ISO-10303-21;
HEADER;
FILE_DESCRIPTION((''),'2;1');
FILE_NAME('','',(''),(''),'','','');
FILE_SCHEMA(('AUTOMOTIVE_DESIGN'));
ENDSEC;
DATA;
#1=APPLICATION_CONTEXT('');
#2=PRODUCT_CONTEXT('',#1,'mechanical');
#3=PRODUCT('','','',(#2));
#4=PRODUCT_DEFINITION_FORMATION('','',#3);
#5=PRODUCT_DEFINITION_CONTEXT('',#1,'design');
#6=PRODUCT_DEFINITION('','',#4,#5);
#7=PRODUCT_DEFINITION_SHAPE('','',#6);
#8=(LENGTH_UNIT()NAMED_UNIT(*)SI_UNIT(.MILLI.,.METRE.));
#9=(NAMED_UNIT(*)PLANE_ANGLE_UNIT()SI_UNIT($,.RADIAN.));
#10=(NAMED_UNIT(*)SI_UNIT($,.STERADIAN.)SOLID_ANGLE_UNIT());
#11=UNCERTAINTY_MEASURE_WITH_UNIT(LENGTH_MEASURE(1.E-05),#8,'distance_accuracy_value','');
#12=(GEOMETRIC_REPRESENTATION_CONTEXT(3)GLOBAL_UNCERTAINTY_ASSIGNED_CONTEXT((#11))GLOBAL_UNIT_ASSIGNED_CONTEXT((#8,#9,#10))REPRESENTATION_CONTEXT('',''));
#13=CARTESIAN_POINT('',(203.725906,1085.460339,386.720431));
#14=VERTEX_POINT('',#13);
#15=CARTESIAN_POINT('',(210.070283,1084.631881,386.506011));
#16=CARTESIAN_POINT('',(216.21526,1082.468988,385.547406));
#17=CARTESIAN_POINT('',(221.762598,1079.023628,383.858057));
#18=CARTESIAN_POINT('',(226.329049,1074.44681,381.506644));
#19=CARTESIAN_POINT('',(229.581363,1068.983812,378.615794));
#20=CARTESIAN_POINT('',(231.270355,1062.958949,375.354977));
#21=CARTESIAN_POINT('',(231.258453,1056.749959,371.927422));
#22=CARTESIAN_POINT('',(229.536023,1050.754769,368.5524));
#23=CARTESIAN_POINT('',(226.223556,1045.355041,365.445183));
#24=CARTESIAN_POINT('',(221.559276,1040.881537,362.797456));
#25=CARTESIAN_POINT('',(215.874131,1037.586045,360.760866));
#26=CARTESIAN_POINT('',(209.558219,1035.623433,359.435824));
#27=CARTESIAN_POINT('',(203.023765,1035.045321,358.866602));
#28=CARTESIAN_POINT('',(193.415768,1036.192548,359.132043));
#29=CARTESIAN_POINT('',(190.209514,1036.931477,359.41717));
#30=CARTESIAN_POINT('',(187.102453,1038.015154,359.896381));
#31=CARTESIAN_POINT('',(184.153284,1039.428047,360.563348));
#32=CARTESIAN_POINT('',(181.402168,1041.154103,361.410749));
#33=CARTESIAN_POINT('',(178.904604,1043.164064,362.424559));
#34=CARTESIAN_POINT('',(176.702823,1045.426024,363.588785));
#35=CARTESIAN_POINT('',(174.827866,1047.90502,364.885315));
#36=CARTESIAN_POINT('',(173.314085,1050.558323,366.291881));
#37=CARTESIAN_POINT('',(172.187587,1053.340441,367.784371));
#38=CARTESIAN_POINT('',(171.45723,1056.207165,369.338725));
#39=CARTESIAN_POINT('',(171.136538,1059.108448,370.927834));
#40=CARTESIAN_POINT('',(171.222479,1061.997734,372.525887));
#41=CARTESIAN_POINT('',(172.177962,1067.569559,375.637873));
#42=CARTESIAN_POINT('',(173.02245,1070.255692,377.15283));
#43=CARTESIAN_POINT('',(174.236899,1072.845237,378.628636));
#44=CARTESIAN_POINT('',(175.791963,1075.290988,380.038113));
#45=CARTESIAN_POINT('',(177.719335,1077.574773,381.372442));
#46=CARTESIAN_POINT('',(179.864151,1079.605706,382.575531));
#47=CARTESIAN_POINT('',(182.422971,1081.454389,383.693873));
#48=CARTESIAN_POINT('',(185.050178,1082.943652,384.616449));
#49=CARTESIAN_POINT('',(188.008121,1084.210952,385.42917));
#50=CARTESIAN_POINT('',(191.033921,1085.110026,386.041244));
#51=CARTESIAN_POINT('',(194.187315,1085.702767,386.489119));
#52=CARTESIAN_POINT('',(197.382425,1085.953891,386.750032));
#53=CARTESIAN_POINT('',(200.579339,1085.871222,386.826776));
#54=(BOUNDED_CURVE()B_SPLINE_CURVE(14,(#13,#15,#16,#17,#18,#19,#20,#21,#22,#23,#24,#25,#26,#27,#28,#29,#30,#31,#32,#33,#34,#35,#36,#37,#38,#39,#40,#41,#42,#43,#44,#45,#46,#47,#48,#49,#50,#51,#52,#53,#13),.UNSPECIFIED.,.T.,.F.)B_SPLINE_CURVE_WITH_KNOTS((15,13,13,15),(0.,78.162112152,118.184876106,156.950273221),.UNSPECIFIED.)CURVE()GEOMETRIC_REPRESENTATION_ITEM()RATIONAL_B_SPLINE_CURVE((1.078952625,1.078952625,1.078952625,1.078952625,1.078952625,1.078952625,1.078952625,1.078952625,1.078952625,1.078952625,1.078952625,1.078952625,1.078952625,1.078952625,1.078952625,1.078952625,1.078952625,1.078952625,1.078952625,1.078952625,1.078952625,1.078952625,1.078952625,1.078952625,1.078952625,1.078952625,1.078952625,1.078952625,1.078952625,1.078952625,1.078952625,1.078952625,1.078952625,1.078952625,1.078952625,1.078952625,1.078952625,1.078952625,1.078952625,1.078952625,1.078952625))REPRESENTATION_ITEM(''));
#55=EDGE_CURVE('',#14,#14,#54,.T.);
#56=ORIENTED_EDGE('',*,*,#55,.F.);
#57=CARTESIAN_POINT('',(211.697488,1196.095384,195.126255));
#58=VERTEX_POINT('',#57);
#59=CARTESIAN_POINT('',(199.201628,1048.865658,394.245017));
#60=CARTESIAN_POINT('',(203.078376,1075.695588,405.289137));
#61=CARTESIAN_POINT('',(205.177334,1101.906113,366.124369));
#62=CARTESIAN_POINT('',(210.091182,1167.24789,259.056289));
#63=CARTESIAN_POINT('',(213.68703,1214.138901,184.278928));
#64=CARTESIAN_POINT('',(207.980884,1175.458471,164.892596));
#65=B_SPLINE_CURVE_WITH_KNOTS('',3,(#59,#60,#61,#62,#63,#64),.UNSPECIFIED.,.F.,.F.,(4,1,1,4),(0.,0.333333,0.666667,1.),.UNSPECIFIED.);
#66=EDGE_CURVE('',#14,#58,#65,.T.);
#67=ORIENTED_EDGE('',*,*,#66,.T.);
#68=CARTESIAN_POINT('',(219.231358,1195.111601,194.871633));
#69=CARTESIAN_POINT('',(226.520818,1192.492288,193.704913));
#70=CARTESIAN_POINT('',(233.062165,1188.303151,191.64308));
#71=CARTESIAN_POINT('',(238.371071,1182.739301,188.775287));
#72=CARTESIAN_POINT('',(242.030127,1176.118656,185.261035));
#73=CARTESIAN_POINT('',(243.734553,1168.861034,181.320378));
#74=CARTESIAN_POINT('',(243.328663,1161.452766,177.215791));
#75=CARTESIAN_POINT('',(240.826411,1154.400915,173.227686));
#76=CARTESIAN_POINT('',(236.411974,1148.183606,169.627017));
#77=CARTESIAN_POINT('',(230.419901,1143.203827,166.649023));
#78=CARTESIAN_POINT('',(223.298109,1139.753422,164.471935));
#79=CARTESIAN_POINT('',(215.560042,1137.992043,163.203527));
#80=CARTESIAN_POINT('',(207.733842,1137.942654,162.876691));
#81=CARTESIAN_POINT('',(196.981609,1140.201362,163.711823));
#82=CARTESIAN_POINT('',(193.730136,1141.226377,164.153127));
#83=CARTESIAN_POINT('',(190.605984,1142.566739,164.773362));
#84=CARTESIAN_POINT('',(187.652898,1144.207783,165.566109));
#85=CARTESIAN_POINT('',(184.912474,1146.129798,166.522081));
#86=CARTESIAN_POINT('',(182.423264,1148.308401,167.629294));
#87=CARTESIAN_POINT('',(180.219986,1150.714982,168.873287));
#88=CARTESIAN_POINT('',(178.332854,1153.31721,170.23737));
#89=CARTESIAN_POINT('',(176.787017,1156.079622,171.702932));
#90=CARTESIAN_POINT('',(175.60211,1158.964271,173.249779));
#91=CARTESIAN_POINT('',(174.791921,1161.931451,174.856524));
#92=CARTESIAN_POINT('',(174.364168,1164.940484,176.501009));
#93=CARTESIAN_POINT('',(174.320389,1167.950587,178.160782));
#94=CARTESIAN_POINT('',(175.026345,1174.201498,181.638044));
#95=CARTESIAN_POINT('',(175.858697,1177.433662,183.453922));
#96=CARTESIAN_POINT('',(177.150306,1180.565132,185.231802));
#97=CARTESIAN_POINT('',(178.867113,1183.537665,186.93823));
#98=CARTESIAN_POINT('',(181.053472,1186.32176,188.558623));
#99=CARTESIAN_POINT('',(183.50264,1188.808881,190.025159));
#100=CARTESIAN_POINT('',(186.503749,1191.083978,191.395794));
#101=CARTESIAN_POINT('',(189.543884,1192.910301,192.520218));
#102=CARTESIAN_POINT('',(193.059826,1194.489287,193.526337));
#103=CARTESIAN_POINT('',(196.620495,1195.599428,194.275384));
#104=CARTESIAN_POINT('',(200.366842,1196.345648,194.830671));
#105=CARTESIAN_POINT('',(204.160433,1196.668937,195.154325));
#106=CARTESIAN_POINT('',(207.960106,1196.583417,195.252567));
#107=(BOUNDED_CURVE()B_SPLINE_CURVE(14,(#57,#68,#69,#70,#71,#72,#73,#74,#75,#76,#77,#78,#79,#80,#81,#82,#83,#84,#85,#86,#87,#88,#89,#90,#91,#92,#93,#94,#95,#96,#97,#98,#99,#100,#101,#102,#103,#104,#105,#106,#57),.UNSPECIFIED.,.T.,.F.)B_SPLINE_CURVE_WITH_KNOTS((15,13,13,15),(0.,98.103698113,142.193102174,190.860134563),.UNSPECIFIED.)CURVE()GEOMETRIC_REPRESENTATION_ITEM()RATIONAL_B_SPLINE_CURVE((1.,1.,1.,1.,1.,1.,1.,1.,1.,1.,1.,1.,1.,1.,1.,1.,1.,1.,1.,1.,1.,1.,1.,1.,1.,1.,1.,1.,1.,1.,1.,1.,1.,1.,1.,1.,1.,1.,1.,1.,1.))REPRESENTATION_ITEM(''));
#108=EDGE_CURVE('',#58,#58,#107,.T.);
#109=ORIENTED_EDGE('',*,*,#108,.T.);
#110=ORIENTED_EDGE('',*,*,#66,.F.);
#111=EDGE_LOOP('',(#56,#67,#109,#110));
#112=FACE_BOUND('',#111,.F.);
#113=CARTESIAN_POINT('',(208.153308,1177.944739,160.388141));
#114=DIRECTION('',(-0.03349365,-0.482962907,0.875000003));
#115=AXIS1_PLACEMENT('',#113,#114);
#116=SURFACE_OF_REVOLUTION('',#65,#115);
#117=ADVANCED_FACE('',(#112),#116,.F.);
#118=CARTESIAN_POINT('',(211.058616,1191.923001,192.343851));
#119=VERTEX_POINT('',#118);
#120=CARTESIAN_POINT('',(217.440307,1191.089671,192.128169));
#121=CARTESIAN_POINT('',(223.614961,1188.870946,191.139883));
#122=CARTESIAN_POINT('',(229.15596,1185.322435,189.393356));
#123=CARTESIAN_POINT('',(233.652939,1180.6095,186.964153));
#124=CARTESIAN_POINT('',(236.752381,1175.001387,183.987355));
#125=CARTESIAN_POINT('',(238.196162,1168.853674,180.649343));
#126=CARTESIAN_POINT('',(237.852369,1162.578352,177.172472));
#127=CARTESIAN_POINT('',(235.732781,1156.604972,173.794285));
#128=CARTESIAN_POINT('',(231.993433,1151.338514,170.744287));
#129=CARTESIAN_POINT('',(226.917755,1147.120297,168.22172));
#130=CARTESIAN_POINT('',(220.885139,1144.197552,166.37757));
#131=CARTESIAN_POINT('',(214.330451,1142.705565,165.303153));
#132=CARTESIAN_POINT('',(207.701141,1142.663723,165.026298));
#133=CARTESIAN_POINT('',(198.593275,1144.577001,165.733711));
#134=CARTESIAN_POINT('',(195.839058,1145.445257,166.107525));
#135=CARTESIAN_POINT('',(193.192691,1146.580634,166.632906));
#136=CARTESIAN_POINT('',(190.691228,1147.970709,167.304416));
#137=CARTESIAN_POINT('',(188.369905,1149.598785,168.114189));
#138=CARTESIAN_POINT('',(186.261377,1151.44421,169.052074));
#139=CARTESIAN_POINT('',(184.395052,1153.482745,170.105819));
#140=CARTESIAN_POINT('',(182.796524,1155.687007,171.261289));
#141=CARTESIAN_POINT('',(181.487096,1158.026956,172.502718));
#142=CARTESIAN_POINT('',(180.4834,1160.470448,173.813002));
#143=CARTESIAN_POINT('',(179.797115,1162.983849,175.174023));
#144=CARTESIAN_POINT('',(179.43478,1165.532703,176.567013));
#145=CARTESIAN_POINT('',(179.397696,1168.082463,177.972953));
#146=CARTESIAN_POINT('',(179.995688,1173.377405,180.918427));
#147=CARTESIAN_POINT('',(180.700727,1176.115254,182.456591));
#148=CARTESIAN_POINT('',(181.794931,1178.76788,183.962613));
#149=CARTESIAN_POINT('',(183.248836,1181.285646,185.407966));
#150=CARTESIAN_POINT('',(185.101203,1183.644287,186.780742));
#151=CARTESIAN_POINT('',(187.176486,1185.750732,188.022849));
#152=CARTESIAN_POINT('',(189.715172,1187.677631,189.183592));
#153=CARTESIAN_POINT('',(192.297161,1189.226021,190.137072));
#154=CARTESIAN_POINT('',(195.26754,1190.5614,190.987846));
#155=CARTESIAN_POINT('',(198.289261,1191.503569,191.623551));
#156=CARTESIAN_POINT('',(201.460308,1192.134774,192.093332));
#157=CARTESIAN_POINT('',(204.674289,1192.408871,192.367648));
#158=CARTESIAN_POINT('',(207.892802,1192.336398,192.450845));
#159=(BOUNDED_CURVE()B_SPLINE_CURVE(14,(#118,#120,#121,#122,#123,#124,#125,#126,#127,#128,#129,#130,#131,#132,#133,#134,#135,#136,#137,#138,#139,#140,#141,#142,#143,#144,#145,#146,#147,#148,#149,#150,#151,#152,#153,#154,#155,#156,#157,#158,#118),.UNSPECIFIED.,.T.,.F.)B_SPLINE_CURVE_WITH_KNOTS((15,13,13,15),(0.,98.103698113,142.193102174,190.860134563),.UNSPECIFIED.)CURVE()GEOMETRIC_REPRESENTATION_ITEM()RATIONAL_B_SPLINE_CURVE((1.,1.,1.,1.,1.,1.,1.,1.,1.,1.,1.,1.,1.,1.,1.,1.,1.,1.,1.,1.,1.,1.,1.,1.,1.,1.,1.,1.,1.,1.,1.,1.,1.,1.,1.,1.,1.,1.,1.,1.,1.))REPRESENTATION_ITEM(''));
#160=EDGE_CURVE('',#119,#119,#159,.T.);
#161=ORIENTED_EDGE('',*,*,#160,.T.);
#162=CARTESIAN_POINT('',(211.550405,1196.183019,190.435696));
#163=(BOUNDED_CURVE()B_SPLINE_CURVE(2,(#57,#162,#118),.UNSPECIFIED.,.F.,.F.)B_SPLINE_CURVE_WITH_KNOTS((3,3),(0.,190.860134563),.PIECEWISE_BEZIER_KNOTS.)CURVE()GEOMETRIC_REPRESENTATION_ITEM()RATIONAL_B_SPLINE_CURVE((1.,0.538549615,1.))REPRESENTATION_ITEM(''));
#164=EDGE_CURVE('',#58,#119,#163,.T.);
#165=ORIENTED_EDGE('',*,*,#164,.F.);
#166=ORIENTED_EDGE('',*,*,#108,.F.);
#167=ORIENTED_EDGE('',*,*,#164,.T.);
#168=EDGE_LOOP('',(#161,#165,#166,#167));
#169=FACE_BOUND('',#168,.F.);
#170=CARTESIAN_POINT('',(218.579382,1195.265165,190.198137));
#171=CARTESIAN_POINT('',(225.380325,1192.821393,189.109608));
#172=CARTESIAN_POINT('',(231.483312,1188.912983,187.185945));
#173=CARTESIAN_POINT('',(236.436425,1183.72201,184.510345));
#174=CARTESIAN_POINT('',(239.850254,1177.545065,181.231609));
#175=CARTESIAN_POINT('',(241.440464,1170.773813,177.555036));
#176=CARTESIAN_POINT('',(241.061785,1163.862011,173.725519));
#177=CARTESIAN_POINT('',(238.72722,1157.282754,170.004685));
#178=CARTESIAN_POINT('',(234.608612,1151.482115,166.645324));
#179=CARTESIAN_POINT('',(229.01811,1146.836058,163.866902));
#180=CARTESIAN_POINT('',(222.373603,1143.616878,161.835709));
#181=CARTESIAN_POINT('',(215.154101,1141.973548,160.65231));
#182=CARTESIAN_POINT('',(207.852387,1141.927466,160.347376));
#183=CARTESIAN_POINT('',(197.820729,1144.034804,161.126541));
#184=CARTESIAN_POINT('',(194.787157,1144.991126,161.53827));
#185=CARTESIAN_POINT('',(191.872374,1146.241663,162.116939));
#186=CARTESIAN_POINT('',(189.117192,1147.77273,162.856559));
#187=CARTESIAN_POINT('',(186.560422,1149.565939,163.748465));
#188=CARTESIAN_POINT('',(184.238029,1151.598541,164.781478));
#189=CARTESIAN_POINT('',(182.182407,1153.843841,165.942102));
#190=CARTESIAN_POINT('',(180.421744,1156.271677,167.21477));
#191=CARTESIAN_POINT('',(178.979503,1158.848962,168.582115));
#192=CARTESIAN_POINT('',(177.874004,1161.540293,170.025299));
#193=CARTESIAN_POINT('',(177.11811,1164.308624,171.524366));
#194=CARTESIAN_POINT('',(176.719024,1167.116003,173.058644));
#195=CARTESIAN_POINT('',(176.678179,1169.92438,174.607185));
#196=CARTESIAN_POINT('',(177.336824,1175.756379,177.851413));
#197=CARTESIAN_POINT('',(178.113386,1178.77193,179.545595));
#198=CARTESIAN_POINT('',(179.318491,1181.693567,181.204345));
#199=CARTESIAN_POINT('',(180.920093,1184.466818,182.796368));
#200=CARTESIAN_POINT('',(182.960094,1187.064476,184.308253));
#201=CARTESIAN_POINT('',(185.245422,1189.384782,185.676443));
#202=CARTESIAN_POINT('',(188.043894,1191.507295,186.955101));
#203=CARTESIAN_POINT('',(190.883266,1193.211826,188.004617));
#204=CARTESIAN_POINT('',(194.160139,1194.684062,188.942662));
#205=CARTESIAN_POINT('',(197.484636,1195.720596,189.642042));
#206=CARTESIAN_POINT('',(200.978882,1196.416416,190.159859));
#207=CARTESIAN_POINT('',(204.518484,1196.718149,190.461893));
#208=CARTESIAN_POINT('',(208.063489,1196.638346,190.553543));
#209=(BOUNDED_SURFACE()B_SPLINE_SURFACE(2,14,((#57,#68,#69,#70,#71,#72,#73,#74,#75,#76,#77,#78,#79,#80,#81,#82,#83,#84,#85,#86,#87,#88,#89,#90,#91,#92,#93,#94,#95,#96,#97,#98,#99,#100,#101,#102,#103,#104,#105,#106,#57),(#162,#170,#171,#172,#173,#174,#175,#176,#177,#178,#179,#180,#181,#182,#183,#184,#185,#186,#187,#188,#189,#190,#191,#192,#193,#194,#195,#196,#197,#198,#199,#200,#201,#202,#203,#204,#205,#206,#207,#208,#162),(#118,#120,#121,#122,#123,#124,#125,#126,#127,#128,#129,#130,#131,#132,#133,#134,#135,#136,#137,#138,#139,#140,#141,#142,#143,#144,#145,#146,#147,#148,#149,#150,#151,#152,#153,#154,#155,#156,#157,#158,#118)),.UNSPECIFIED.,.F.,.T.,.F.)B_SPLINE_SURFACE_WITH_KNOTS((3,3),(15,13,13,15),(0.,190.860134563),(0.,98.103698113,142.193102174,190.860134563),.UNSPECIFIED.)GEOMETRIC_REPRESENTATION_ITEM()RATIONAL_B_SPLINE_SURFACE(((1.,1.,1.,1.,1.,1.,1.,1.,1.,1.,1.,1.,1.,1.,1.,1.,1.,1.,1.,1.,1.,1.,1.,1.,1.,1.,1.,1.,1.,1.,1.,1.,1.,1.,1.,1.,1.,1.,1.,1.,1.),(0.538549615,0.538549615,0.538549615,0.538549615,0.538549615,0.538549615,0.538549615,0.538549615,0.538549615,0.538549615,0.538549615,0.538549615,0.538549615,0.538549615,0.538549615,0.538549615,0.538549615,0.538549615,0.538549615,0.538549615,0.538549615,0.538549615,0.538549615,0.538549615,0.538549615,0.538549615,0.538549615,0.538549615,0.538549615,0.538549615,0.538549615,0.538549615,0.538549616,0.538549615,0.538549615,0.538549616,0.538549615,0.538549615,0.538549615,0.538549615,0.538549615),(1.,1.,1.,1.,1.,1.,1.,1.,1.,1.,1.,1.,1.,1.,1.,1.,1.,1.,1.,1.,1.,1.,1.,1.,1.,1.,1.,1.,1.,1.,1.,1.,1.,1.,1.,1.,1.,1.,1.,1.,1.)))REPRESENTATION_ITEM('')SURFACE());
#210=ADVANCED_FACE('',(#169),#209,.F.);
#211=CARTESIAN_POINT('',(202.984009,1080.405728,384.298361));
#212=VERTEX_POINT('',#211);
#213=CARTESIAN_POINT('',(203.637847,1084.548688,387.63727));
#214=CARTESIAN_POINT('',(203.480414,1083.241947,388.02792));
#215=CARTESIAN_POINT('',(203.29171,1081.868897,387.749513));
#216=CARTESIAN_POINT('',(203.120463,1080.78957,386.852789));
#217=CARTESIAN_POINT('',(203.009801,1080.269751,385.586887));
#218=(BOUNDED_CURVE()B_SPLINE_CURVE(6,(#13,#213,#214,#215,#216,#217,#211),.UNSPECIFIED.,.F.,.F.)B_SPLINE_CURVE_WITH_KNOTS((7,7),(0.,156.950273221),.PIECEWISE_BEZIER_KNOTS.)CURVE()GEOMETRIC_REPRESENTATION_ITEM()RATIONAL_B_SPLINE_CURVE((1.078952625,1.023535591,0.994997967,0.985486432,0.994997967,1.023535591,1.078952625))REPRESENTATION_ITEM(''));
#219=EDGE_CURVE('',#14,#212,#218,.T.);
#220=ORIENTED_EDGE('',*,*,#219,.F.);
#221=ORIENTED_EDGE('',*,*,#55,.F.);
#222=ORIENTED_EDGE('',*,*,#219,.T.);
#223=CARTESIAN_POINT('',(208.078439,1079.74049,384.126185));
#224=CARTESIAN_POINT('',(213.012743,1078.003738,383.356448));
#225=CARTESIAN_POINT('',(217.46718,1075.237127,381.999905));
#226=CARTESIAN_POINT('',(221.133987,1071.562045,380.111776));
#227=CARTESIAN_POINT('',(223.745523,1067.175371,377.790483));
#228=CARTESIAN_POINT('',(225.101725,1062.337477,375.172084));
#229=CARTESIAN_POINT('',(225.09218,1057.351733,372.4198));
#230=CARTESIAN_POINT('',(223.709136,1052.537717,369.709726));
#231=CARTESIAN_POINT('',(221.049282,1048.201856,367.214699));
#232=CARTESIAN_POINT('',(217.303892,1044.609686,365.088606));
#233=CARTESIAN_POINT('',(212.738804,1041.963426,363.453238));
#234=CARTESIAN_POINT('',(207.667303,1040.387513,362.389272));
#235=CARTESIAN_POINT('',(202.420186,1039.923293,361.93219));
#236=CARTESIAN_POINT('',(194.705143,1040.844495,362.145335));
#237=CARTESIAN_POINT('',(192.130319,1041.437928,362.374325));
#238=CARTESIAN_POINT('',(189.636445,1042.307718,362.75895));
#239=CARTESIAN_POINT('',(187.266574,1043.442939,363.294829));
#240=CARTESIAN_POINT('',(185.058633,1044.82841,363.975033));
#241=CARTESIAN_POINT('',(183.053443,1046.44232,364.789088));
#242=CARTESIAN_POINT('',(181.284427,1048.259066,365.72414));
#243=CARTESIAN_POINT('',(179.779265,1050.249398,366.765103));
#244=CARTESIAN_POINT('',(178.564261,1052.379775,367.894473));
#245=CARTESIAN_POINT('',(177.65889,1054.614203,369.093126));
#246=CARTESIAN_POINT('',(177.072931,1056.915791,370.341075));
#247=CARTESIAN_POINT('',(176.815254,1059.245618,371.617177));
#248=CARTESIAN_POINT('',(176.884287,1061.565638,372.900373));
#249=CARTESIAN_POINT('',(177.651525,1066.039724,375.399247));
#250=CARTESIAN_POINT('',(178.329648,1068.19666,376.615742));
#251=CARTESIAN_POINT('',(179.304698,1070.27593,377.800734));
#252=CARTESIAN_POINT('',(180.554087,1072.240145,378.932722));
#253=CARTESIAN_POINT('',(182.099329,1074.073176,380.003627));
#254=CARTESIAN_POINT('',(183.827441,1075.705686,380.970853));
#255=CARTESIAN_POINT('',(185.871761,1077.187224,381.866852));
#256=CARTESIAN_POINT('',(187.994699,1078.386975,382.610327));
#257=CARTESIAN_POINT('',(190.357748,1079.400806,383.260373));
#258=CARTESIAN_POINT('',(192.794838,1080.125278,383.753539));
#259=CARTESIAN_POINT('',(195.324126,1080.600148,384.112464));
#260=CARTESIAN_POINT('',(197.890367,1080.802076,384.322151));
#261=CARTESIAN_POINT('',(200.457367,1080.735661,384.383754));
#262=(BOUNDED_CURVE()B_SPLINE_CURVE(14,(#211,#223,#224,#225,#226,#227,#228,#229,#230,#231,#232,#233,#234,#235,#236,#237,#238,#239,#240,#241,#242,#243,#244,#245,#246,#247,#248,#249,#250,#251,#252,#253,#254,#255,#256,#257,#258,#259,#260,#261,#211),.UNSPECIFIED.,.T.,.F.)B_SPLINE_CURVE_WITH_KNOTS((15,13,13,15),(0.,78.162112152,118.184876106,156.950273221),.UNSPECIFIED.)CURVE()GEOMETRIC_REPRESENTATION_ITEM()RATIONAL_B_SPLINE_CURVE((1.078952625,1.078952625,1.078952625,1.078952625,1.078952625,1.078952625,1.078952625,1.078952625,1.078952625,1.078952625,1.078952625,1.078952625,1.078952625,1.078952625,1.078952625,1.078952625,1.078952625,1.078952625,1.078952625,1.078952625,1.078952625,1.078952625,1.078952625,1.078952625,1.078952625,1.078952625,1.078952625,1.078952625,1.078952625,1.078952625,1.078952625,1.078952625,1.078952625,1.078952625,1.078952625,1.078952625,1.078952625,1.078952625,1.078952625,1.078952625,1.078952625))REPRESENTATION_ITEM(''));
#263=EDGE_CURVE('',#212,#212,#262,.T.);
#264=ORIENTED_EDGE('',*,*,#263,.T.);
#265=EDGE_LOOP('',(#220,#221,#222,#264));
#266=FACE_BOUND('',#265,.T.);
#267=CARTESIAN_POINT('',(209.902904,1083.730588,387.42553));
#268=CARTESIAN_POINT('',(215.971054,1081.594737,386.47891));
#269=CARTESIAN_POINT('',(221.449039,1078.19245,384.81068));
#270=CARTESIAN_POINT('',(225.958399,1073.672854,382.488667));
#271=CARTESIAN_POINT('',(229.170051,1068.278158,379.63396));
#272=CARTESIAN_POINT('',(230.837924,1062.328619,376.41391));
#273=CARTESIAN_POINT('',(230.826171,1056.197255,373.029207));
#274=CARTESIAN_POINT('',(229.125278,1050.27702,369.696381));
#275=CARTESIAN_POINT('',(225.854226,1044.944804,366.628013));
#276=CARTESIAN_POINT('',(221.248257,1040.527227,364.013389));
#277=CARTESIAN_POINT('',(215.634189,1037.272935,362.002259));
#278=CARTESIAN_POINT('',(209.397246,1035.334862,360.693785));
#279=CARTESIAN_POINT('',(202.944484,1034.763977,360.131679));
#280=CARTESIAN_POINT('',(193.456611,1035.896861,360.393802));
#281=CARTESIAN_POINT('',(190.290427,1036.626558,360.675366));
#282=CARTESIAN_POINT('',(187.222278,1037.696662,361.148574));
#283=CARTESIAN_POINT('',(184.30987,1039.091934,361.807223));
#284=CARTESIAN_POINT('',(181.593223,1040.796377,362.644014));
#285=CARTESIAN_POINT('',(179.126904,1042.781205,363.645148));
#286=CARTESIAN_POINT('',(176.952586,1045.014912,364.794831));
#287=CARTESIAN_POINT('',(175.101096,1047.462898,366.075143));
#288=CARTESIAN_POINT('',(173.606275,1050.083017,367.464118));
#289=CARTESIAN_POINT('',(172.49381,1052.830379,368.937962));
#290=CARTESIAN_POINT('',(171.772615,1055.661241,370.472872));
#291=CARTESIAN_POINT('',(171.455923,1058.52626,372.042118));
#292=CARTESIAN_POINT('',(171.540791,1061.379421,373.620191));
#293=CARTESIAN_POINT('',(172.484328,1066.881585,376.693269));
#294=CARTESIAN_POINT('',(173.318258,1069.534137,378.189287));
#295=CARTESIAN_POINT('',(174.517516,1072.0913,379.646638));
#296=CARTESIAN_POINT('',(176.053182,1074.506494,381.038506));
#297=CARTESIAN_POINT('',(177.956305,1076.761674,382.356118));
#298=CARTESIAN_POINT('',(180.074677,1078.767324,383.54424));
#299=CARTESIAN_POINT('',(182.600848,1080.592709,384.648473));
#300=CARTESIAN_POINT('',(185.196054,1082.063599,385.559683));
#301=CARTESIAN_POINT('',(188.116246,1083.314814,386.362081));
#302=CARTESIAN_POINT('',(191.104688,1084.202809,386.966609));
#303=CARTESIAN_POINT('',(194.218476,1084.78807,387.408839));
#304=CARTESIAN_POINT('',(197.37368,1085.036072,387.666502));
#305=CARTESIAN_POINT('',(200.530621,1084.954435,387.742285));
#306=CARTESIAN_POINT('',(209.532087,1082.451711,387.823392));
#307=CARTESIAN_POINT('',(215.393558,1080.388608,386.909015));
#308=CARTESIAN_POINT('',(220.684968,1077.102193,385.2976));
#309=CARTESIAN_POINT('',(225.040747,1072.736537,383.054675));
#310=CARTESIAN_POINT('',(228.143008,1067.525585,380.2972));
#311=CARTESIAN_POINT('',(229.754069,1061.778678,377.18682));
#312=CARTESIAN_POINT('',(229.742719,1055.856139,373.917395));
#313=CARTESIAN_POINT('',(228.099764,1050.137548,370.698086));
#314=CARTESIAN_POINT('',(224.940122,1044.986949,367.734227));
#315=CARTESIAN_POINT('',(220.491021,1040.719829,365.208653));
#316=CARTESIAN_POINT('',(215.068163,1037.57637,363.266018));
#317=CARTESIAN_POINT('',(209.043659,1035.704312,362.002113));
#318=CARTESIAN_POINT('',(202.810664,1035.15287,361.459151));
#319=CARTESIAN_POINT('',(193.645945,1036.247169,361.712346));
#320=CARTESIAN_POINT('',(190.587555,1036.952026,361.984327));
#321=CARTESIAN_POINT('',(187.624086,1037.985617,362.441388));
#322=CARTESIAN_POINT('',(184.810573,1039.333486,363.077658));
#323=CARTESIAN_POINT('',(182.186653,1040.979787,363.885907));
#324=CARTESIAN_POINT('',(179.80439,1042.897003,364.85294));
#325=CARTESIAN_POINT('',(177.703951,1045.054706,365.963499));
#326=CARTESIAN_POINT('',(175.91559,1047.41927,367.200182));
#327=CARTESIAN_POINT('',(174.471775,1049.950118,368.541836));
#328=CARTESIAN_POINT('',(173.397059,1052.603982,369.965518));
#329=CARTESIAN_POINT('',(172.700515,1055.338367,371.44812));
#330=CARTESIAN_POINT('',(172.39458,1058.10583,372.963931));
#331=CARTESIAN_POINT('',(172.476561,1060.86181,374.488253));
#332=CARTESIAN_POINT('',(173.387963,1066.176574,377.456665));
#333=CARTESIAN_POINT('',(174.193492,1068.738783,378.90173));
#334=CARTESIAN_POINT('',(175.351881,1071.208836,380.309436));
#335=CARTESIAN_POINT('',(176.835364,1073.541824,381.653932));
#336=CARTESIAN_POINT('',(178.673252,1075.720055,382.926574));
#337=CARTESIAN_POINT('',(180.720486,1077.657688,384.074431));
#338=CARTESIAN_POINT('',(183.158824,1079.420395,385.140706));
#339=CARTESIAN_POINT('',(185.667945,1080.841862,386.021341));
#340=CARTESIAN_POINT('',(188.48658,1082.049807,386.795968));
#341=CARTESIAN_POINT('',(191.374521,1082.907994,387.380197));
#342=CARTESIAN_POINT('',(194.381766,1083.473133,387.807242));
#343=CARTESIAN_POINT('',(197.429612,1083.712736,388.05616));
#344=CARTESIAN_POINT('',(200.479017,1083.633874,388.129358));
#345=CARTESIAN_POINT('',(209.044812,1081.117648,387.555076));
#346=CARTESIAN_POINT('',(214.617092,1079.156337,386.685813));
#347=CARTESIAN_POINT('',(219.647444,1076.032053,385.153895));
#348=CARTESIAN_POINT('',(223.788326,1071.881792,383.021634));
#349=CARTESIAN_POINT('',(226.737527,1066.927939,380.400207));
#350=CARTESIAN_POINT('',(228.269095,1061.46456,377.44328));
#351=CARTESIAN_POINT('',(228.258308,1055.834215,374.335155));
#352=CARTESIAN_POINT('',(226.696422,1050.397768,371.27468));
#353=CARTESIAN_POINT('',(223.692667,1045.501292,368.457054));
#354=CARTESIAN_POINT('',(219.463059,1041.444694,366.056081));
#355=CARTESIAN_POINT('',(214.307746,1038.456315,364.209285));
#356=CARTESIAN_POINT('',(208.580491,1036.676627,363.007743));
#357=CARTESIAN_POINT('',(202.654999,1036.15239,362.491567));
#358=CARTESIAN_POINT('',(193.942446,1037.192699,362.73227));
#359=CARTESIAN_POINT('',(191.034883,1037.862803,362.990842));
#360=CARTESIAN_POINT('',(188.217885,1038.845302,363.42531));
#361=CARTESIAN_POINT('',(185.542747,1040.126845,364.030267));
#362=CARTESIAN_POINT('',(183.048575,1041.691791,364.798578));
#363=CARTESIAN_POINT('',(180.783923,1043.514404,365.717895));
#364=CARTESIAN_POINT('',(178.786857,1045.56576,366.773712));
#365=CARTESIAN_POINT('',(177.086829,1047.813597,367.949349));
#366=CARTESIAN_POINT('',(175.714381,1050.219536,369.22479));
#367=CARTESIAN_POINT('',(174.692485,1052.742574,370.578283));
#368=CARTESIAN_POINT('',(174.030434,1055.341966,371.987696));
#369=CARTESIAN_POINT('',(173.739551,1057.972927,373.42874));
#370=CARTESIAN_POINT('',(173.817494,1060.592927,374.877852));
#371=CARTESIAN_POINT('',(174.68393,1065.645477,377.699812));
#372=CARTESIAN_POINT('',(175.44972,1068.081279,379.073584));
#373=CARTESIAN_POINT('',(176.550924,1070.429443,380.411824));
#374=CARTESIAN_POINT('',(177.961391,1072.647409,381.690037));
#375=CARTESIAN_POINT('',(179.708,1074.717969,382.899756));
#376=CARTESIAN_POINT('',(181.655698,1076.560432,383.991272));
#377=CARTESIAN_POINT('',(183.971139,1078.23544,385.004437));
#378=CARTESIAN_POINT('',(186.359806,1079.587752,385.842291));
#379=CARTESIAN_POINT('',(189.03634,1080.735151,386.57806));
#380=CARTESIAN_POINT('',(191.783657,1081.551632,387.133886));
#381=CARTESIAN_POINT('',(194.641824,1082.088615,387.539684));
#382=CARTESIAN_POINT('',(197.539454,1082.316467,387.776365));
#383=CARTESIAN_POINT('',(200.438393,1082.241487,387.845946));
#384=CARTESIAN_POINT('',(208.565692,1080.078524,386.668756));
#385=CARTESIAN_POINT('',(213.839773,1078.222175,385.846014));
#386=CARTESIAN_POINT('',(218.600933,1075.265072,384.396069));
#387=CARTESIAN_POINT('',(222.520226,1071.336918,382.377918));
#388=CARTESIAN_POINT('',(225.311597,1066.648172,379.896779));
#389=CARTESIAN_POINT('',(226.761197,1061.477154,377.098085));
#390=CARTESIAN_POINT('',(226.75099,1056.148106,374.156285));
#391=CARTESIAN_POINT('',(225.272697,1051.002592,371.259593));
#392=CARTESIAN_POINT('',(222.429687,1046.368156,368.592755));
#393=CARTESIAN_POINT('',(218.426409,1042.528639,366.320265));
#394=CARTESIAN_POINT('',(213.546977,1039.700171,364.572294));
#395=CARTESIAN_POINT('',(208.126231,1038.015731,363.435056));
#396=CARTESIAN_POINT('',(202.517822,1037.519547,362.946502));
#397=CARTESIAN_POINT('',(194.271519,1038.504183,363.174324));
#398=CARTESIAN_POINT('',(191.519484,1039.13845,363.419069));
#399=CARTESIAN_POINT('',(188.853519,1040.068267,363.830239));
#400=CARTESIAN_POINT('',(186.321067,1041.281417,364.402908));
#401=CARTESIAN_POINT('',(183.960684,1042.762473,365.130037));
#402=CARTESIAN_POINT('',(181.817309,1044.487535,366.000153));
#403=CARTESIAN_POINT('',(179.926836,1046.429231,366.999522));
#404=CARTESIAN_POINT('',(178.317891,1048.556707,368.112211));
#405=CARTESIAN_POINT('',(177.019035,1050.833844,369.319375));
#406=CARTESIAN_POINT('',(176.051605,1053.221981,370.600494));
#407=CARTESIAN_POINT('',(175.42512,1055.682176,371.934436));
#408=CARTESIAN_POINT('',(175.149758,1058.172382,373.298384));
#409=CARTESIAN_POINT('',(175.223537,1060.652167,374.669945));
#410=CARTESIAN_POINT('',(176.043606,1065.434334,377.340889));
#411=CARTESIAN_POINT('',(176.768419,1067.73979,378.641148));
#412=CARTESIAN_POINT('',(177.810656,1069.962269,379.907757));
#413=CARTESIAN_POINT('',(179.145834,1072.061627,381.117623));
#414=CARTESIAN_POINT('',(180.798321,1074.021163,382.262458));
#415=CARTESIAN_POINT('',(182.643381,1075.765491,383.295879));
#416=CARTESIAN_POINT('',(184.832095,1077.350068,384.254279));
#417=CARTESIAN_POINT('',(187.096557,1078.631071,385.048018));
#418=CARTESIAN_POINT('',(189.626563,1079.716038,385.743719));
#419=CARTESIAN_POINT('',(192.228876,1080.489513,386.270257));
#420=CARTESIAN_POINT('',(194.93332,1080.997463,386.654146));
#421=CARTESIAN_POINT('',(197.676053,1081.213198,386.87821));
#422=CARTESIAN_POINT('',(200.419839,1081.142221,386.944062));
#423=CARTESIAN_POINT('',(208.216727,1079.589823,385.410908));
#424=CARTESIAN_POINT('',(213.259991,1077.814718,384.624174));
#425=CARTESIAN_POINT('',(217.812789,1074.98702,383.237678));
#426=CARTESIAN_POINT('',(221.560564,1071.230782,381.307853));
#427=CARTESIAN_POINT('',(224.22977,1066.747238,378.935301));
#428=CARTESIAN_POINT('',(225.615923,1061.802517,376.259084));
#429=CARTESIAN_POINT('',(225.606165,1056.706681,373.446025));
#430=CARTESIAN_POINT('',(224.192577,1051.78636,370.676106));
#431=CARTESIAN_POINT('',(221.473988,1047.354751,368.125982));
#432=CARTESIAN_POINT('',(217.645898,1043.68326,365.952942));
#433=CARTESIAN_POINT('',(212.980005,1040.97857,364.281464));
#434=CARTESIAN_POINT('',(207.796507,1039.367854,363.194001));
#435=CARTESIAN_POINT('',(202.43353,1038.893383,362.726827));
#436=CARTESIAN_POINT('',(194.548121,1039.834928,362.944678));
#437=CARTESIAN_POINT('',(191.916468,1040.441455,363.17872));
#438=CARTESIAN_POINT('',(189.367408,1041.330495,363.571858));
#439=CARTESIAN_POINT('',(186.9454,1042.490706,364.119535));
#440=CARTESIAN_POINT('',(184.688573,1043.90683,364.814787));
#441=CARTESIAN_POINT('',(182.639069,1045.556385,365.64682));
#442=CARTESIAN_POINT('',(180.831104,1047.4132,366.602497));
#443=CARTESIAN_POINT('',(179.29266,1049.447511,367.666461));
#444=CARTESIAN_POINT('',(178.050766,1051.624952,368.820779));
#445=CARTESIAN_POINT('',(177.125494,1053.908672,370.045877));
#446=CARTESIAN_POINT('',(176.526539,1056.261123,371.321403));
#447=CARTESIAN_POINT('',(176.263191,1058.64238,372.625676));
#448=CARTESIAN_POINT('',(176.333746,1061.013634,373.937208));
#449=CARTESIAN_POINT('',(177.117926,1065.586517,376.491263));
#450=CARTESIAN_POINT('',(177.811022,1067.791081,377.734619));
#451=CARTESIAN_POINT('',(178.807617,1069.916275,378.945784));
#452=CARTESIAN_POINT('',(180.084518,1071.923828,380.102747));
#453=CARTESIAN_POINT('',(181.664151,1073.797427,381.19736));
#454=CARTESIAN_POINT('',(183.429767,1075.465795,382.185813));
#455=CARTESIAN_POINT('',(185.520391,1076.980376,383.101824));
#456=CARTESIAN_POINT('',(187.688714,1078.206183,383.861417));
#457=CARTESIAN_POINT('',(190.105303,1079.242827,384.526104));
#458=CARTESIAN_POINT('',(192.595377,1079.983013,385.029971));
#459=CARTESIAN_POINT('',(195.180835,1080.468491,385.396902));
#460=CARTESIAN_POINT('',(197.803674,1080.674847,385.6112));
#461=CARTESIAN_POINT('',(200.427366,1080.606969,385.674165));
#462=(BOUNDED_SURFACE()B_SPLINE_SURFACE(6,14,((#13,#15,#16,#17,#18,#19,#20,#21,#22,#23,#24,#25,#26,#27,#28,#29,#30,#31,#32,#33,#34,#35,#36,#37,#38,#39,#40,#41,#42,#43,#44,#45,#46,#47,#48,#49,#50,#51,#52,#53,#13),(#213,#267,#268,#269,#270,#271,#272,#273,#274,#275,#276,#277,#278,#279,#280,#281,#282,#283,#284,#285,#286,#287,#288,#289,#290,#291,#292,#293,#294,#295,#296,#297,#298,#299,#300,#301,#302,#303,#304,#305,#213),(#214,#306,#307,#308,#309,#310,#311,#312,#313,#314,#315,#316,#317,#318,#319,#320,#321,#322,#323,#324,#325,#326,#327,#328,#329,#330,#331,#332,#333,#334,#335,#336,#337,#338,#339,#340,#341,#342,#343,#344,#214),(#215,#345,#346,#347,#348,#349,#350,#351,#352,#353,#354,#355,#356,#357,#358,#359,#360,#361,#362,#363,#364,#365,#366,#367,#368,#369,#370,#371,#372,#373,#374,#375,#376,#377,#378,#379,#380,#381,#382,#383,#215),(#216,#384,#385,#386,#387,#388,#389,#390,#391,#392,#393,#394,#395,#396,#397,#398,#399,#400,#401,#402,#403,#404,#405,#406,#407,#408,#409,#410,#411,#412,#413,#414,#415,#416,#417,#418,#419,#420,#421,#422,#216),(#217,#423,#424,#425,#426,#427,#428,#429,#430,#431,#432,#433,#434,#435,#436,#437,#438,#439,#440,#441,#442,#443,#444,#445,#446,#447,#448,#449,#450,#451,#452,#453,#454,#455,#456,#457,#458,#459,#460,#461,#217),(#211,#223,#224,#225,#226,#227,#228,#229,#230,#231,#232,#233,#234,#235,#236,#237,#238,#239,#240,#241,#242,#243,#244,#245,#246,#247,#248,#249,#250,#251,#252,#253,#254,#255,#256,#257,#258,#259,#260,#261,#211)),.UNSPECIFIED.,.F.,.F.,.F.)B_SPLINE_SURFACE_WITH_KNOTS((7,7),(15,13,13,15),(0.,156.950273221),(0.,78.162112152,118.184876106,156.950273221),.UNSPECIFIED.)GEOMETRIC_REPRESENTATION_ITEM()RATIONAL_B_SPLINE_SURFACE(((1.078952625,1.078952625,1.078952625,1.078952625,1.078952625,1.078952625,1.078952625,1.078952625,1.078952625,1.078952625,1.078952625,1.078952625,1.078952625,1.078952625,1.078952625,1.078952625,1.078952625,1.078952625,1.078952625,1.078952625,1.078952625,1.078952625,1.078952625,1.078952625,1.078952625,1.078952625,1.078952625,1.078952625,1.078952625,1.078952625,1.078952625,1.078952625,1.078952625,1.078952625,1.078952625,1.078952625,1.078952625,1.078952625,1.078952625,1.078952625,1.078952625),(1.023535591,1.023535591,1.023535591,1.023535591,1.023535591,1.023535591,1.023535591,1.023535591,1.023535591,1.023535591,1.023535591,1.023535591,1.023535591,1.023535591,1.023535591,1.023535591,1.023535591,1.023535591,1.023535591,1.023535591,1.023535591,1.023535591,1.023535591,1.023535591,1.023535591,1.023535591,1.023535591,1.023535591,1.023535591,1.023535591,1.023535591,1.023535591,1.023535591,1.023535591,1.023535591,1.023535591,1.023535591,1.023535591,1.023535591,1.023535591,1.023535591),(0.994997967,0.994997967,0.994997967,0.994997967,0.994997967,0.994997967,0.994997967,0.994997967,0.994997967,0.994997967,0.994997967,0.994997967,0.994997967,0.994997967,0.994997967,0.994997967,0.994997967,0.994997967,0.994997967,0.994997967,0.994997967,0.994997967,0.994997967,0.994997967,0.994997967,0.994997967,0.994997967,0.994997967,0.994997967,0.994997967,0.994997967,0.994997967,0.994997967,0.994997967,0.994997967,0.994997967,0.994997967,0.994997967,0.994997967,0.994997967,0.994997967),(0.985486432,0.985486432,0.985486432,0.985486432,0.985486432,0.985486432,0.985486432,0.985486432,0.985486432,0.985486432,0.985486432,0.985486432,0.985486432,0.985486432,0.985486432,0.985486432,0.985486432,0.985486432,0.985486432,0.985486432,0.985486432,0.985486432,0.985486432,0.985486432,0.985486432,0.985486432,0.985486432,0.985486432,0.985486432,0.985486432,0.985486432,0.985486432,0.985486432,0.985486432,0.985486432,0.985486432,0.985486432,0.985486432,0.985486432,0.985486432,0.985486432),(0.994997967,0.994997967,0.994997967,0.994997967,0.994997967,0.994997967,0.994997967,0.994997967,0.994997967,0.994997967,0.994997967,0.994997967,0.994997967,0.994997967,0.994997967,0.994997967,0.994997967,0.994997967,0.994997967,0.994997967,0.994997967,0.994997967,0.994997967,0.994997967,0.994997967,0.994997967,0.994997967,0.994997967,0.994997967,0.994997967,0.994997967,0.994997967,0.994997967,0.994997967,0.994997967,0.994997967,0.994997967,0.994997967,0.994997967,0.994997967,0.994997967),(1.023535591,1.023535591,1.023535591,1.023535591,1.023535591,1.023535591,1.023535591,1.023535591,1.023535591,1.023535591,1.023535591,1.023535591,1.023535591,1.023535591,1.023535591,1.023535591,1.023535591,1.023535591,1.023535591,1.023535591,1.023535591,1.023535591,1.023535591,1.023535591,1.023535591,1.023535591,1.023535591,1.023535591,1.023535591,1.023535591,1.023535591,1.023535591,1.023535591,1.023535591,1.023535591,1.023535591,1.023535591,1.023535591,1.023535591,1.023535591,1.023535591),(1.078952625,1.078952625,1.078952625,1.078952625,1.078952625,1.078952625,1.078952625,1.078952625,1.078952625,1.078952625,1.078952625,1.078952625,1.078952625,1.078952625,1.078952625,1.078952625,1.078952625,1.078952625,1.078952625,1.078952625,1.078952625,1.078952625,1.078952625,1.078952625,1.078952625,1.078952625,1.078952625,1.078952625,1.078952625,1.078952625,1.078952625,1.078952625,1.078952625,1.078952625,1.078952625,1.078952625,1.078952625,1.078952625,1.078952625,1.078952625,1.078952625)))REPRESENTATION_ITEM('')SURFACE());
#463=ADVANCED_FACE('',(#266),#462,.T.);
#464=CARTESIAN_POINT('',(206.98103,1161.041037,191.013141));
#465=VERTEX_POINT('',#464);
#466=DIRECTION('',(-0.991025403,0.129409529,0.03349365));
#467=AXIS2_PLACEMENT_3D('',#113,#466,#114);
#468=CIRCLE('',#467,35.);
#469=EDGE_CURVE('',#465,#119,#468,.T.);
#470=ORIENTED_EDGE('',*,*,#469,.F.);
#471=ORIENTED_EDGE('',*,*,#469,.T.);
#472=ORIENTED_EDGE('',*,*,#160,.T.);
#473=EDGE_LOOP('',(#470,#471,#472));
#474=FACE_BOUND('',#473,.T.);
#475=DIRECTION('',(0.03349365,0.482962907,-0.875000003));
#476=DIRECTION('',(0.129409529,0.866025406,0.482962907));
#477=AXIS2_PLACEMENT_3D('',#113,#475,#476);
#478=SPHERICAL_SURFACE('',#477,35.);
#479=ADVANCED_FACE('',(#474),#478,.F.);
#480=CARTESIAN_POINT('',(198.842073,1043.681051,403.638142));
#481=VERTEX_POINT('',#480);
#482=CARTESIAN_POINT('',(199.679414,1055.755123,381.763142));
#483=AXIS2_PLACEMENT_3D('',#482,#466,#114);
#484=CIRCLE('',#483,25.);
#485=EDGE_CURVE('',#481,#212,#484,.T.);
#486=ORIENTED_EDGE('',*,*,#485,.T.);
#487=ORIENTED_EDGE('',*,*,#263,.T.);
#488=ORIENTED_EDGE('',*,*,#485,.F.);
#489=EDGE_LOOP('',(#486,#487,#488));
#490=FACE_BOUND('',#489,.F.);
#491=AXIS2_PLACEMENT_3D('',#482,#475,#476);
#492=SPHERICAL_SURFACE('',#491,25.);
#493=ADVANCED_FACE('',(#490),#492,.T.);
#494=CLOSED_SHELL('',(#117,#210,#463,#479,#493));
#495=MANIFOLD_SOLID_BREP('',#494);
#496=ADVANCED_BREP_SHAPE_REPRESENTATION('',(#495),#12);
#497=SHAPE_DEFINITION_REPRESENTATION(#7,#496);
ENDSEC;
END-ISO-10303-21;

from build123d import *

# Parameters (mm, degrees)
FILLET088_R             = 3
FILLET089_R             = 3
BODY053_ROLL_ANGLE      = 86.032869
BODY053_PITCH_ANGLE     = -61.044976
BODY053_PLACEMENT_ANGLE = -93.967131


with BuildPart() as part:
    # Sketch178 → Revolution092 (revolve)
    with BuildSketch(Plane.XY):
        with BuildLine():
            Line((5.147949, 0), (267.265, 0))
            add(Edge.make_bspline(
                [(267.265, 0), (263.840897, 29.07099), (216.842712, 33.126465), (91.435905, 38.640092), (3.238657, 43.599544), (5.147949, 0)],
                knots=[0, 0, 0, 0, 0.333333, 0.666667, 1, 1, 1, 1], degree=3))
        make_face()
    revolve(axis=Axis((0, 0, 0), (1, 0, 0)))

    # Sketch179 → Groove086 (revolve, cut)
    with BuildSketch(Plane.XY):
        with BuildLine():
            Line((-35, 0), (35, 0))
            ThreePointArc((35, 0), (0, 35), (-35, 0))
        make_face()
    revolve(axis=Axis((0, 0, 0), (1, 0, 0)), mode=Mode.SUBTRACT)

    # Fillet088
    fillet088_edges = [part.edges().sort_by_distance(p)[0] for p in [
        (17.386166, -30.376327, 0),
    ]]
    fillet(fillet088_edges, radius=FILLET088_R)

    # Sketch180 → Groove087 (revolve, cut)
    with BuildSketch(Plane.XY):
        with BuildLine():
            Line((228, 0), (278, 0))
            ThreePointArc((278, 0), (253, 25), (228, 0))
        make_face()
    revolve(axis=Axis((0, 0, 0), (1, 0, 0)), mode=Mode.SUBTRACT)

    # Fillet089
    fillet089_edges = [part.edges().sort_by_distance(p)[0] for p in [
        (251.985595, -24.979411, 0),
    ]]
    fillet(fillet089_edges, radius=FILLET089_R)

    # Sketch180 → Revolution093 (revolve)
    with BuildSketch(Plane.XY):
        with BuildLine():
            Line((228, 0), (278, 0))
            ThreePointArc((278, 0), (253, 25), (228, 0))
        make_face()
    revolve(axis=Axis((0, 0, 0), (1, 0, 0)))


with BuildPart() as part_1:
    # Body053 roll: moved
    add(part.part.rotate(Axis((0, 0, 0), (1, 0, 0)), BODY053_ROLL_ANGLE))


with BuildPart() as part_2:
    # Body053 pitch: moved
    add(part_1.part.rotate(Axis((0, 0, 0), (0, 1, 0)), BODY053_PITCH_ANGLE))


with BuildPart() as part_3:
    # Body053 placement: moved
    add(part_2.part.moved(Location((208.153308, 1177.944739, 160.388141))).rotate(Axis((208.153308, 1177.944739, 160.388141), (0, 0, 1)), BODY053_PLACEMENT_ANGLE))


solid = part_3.part
